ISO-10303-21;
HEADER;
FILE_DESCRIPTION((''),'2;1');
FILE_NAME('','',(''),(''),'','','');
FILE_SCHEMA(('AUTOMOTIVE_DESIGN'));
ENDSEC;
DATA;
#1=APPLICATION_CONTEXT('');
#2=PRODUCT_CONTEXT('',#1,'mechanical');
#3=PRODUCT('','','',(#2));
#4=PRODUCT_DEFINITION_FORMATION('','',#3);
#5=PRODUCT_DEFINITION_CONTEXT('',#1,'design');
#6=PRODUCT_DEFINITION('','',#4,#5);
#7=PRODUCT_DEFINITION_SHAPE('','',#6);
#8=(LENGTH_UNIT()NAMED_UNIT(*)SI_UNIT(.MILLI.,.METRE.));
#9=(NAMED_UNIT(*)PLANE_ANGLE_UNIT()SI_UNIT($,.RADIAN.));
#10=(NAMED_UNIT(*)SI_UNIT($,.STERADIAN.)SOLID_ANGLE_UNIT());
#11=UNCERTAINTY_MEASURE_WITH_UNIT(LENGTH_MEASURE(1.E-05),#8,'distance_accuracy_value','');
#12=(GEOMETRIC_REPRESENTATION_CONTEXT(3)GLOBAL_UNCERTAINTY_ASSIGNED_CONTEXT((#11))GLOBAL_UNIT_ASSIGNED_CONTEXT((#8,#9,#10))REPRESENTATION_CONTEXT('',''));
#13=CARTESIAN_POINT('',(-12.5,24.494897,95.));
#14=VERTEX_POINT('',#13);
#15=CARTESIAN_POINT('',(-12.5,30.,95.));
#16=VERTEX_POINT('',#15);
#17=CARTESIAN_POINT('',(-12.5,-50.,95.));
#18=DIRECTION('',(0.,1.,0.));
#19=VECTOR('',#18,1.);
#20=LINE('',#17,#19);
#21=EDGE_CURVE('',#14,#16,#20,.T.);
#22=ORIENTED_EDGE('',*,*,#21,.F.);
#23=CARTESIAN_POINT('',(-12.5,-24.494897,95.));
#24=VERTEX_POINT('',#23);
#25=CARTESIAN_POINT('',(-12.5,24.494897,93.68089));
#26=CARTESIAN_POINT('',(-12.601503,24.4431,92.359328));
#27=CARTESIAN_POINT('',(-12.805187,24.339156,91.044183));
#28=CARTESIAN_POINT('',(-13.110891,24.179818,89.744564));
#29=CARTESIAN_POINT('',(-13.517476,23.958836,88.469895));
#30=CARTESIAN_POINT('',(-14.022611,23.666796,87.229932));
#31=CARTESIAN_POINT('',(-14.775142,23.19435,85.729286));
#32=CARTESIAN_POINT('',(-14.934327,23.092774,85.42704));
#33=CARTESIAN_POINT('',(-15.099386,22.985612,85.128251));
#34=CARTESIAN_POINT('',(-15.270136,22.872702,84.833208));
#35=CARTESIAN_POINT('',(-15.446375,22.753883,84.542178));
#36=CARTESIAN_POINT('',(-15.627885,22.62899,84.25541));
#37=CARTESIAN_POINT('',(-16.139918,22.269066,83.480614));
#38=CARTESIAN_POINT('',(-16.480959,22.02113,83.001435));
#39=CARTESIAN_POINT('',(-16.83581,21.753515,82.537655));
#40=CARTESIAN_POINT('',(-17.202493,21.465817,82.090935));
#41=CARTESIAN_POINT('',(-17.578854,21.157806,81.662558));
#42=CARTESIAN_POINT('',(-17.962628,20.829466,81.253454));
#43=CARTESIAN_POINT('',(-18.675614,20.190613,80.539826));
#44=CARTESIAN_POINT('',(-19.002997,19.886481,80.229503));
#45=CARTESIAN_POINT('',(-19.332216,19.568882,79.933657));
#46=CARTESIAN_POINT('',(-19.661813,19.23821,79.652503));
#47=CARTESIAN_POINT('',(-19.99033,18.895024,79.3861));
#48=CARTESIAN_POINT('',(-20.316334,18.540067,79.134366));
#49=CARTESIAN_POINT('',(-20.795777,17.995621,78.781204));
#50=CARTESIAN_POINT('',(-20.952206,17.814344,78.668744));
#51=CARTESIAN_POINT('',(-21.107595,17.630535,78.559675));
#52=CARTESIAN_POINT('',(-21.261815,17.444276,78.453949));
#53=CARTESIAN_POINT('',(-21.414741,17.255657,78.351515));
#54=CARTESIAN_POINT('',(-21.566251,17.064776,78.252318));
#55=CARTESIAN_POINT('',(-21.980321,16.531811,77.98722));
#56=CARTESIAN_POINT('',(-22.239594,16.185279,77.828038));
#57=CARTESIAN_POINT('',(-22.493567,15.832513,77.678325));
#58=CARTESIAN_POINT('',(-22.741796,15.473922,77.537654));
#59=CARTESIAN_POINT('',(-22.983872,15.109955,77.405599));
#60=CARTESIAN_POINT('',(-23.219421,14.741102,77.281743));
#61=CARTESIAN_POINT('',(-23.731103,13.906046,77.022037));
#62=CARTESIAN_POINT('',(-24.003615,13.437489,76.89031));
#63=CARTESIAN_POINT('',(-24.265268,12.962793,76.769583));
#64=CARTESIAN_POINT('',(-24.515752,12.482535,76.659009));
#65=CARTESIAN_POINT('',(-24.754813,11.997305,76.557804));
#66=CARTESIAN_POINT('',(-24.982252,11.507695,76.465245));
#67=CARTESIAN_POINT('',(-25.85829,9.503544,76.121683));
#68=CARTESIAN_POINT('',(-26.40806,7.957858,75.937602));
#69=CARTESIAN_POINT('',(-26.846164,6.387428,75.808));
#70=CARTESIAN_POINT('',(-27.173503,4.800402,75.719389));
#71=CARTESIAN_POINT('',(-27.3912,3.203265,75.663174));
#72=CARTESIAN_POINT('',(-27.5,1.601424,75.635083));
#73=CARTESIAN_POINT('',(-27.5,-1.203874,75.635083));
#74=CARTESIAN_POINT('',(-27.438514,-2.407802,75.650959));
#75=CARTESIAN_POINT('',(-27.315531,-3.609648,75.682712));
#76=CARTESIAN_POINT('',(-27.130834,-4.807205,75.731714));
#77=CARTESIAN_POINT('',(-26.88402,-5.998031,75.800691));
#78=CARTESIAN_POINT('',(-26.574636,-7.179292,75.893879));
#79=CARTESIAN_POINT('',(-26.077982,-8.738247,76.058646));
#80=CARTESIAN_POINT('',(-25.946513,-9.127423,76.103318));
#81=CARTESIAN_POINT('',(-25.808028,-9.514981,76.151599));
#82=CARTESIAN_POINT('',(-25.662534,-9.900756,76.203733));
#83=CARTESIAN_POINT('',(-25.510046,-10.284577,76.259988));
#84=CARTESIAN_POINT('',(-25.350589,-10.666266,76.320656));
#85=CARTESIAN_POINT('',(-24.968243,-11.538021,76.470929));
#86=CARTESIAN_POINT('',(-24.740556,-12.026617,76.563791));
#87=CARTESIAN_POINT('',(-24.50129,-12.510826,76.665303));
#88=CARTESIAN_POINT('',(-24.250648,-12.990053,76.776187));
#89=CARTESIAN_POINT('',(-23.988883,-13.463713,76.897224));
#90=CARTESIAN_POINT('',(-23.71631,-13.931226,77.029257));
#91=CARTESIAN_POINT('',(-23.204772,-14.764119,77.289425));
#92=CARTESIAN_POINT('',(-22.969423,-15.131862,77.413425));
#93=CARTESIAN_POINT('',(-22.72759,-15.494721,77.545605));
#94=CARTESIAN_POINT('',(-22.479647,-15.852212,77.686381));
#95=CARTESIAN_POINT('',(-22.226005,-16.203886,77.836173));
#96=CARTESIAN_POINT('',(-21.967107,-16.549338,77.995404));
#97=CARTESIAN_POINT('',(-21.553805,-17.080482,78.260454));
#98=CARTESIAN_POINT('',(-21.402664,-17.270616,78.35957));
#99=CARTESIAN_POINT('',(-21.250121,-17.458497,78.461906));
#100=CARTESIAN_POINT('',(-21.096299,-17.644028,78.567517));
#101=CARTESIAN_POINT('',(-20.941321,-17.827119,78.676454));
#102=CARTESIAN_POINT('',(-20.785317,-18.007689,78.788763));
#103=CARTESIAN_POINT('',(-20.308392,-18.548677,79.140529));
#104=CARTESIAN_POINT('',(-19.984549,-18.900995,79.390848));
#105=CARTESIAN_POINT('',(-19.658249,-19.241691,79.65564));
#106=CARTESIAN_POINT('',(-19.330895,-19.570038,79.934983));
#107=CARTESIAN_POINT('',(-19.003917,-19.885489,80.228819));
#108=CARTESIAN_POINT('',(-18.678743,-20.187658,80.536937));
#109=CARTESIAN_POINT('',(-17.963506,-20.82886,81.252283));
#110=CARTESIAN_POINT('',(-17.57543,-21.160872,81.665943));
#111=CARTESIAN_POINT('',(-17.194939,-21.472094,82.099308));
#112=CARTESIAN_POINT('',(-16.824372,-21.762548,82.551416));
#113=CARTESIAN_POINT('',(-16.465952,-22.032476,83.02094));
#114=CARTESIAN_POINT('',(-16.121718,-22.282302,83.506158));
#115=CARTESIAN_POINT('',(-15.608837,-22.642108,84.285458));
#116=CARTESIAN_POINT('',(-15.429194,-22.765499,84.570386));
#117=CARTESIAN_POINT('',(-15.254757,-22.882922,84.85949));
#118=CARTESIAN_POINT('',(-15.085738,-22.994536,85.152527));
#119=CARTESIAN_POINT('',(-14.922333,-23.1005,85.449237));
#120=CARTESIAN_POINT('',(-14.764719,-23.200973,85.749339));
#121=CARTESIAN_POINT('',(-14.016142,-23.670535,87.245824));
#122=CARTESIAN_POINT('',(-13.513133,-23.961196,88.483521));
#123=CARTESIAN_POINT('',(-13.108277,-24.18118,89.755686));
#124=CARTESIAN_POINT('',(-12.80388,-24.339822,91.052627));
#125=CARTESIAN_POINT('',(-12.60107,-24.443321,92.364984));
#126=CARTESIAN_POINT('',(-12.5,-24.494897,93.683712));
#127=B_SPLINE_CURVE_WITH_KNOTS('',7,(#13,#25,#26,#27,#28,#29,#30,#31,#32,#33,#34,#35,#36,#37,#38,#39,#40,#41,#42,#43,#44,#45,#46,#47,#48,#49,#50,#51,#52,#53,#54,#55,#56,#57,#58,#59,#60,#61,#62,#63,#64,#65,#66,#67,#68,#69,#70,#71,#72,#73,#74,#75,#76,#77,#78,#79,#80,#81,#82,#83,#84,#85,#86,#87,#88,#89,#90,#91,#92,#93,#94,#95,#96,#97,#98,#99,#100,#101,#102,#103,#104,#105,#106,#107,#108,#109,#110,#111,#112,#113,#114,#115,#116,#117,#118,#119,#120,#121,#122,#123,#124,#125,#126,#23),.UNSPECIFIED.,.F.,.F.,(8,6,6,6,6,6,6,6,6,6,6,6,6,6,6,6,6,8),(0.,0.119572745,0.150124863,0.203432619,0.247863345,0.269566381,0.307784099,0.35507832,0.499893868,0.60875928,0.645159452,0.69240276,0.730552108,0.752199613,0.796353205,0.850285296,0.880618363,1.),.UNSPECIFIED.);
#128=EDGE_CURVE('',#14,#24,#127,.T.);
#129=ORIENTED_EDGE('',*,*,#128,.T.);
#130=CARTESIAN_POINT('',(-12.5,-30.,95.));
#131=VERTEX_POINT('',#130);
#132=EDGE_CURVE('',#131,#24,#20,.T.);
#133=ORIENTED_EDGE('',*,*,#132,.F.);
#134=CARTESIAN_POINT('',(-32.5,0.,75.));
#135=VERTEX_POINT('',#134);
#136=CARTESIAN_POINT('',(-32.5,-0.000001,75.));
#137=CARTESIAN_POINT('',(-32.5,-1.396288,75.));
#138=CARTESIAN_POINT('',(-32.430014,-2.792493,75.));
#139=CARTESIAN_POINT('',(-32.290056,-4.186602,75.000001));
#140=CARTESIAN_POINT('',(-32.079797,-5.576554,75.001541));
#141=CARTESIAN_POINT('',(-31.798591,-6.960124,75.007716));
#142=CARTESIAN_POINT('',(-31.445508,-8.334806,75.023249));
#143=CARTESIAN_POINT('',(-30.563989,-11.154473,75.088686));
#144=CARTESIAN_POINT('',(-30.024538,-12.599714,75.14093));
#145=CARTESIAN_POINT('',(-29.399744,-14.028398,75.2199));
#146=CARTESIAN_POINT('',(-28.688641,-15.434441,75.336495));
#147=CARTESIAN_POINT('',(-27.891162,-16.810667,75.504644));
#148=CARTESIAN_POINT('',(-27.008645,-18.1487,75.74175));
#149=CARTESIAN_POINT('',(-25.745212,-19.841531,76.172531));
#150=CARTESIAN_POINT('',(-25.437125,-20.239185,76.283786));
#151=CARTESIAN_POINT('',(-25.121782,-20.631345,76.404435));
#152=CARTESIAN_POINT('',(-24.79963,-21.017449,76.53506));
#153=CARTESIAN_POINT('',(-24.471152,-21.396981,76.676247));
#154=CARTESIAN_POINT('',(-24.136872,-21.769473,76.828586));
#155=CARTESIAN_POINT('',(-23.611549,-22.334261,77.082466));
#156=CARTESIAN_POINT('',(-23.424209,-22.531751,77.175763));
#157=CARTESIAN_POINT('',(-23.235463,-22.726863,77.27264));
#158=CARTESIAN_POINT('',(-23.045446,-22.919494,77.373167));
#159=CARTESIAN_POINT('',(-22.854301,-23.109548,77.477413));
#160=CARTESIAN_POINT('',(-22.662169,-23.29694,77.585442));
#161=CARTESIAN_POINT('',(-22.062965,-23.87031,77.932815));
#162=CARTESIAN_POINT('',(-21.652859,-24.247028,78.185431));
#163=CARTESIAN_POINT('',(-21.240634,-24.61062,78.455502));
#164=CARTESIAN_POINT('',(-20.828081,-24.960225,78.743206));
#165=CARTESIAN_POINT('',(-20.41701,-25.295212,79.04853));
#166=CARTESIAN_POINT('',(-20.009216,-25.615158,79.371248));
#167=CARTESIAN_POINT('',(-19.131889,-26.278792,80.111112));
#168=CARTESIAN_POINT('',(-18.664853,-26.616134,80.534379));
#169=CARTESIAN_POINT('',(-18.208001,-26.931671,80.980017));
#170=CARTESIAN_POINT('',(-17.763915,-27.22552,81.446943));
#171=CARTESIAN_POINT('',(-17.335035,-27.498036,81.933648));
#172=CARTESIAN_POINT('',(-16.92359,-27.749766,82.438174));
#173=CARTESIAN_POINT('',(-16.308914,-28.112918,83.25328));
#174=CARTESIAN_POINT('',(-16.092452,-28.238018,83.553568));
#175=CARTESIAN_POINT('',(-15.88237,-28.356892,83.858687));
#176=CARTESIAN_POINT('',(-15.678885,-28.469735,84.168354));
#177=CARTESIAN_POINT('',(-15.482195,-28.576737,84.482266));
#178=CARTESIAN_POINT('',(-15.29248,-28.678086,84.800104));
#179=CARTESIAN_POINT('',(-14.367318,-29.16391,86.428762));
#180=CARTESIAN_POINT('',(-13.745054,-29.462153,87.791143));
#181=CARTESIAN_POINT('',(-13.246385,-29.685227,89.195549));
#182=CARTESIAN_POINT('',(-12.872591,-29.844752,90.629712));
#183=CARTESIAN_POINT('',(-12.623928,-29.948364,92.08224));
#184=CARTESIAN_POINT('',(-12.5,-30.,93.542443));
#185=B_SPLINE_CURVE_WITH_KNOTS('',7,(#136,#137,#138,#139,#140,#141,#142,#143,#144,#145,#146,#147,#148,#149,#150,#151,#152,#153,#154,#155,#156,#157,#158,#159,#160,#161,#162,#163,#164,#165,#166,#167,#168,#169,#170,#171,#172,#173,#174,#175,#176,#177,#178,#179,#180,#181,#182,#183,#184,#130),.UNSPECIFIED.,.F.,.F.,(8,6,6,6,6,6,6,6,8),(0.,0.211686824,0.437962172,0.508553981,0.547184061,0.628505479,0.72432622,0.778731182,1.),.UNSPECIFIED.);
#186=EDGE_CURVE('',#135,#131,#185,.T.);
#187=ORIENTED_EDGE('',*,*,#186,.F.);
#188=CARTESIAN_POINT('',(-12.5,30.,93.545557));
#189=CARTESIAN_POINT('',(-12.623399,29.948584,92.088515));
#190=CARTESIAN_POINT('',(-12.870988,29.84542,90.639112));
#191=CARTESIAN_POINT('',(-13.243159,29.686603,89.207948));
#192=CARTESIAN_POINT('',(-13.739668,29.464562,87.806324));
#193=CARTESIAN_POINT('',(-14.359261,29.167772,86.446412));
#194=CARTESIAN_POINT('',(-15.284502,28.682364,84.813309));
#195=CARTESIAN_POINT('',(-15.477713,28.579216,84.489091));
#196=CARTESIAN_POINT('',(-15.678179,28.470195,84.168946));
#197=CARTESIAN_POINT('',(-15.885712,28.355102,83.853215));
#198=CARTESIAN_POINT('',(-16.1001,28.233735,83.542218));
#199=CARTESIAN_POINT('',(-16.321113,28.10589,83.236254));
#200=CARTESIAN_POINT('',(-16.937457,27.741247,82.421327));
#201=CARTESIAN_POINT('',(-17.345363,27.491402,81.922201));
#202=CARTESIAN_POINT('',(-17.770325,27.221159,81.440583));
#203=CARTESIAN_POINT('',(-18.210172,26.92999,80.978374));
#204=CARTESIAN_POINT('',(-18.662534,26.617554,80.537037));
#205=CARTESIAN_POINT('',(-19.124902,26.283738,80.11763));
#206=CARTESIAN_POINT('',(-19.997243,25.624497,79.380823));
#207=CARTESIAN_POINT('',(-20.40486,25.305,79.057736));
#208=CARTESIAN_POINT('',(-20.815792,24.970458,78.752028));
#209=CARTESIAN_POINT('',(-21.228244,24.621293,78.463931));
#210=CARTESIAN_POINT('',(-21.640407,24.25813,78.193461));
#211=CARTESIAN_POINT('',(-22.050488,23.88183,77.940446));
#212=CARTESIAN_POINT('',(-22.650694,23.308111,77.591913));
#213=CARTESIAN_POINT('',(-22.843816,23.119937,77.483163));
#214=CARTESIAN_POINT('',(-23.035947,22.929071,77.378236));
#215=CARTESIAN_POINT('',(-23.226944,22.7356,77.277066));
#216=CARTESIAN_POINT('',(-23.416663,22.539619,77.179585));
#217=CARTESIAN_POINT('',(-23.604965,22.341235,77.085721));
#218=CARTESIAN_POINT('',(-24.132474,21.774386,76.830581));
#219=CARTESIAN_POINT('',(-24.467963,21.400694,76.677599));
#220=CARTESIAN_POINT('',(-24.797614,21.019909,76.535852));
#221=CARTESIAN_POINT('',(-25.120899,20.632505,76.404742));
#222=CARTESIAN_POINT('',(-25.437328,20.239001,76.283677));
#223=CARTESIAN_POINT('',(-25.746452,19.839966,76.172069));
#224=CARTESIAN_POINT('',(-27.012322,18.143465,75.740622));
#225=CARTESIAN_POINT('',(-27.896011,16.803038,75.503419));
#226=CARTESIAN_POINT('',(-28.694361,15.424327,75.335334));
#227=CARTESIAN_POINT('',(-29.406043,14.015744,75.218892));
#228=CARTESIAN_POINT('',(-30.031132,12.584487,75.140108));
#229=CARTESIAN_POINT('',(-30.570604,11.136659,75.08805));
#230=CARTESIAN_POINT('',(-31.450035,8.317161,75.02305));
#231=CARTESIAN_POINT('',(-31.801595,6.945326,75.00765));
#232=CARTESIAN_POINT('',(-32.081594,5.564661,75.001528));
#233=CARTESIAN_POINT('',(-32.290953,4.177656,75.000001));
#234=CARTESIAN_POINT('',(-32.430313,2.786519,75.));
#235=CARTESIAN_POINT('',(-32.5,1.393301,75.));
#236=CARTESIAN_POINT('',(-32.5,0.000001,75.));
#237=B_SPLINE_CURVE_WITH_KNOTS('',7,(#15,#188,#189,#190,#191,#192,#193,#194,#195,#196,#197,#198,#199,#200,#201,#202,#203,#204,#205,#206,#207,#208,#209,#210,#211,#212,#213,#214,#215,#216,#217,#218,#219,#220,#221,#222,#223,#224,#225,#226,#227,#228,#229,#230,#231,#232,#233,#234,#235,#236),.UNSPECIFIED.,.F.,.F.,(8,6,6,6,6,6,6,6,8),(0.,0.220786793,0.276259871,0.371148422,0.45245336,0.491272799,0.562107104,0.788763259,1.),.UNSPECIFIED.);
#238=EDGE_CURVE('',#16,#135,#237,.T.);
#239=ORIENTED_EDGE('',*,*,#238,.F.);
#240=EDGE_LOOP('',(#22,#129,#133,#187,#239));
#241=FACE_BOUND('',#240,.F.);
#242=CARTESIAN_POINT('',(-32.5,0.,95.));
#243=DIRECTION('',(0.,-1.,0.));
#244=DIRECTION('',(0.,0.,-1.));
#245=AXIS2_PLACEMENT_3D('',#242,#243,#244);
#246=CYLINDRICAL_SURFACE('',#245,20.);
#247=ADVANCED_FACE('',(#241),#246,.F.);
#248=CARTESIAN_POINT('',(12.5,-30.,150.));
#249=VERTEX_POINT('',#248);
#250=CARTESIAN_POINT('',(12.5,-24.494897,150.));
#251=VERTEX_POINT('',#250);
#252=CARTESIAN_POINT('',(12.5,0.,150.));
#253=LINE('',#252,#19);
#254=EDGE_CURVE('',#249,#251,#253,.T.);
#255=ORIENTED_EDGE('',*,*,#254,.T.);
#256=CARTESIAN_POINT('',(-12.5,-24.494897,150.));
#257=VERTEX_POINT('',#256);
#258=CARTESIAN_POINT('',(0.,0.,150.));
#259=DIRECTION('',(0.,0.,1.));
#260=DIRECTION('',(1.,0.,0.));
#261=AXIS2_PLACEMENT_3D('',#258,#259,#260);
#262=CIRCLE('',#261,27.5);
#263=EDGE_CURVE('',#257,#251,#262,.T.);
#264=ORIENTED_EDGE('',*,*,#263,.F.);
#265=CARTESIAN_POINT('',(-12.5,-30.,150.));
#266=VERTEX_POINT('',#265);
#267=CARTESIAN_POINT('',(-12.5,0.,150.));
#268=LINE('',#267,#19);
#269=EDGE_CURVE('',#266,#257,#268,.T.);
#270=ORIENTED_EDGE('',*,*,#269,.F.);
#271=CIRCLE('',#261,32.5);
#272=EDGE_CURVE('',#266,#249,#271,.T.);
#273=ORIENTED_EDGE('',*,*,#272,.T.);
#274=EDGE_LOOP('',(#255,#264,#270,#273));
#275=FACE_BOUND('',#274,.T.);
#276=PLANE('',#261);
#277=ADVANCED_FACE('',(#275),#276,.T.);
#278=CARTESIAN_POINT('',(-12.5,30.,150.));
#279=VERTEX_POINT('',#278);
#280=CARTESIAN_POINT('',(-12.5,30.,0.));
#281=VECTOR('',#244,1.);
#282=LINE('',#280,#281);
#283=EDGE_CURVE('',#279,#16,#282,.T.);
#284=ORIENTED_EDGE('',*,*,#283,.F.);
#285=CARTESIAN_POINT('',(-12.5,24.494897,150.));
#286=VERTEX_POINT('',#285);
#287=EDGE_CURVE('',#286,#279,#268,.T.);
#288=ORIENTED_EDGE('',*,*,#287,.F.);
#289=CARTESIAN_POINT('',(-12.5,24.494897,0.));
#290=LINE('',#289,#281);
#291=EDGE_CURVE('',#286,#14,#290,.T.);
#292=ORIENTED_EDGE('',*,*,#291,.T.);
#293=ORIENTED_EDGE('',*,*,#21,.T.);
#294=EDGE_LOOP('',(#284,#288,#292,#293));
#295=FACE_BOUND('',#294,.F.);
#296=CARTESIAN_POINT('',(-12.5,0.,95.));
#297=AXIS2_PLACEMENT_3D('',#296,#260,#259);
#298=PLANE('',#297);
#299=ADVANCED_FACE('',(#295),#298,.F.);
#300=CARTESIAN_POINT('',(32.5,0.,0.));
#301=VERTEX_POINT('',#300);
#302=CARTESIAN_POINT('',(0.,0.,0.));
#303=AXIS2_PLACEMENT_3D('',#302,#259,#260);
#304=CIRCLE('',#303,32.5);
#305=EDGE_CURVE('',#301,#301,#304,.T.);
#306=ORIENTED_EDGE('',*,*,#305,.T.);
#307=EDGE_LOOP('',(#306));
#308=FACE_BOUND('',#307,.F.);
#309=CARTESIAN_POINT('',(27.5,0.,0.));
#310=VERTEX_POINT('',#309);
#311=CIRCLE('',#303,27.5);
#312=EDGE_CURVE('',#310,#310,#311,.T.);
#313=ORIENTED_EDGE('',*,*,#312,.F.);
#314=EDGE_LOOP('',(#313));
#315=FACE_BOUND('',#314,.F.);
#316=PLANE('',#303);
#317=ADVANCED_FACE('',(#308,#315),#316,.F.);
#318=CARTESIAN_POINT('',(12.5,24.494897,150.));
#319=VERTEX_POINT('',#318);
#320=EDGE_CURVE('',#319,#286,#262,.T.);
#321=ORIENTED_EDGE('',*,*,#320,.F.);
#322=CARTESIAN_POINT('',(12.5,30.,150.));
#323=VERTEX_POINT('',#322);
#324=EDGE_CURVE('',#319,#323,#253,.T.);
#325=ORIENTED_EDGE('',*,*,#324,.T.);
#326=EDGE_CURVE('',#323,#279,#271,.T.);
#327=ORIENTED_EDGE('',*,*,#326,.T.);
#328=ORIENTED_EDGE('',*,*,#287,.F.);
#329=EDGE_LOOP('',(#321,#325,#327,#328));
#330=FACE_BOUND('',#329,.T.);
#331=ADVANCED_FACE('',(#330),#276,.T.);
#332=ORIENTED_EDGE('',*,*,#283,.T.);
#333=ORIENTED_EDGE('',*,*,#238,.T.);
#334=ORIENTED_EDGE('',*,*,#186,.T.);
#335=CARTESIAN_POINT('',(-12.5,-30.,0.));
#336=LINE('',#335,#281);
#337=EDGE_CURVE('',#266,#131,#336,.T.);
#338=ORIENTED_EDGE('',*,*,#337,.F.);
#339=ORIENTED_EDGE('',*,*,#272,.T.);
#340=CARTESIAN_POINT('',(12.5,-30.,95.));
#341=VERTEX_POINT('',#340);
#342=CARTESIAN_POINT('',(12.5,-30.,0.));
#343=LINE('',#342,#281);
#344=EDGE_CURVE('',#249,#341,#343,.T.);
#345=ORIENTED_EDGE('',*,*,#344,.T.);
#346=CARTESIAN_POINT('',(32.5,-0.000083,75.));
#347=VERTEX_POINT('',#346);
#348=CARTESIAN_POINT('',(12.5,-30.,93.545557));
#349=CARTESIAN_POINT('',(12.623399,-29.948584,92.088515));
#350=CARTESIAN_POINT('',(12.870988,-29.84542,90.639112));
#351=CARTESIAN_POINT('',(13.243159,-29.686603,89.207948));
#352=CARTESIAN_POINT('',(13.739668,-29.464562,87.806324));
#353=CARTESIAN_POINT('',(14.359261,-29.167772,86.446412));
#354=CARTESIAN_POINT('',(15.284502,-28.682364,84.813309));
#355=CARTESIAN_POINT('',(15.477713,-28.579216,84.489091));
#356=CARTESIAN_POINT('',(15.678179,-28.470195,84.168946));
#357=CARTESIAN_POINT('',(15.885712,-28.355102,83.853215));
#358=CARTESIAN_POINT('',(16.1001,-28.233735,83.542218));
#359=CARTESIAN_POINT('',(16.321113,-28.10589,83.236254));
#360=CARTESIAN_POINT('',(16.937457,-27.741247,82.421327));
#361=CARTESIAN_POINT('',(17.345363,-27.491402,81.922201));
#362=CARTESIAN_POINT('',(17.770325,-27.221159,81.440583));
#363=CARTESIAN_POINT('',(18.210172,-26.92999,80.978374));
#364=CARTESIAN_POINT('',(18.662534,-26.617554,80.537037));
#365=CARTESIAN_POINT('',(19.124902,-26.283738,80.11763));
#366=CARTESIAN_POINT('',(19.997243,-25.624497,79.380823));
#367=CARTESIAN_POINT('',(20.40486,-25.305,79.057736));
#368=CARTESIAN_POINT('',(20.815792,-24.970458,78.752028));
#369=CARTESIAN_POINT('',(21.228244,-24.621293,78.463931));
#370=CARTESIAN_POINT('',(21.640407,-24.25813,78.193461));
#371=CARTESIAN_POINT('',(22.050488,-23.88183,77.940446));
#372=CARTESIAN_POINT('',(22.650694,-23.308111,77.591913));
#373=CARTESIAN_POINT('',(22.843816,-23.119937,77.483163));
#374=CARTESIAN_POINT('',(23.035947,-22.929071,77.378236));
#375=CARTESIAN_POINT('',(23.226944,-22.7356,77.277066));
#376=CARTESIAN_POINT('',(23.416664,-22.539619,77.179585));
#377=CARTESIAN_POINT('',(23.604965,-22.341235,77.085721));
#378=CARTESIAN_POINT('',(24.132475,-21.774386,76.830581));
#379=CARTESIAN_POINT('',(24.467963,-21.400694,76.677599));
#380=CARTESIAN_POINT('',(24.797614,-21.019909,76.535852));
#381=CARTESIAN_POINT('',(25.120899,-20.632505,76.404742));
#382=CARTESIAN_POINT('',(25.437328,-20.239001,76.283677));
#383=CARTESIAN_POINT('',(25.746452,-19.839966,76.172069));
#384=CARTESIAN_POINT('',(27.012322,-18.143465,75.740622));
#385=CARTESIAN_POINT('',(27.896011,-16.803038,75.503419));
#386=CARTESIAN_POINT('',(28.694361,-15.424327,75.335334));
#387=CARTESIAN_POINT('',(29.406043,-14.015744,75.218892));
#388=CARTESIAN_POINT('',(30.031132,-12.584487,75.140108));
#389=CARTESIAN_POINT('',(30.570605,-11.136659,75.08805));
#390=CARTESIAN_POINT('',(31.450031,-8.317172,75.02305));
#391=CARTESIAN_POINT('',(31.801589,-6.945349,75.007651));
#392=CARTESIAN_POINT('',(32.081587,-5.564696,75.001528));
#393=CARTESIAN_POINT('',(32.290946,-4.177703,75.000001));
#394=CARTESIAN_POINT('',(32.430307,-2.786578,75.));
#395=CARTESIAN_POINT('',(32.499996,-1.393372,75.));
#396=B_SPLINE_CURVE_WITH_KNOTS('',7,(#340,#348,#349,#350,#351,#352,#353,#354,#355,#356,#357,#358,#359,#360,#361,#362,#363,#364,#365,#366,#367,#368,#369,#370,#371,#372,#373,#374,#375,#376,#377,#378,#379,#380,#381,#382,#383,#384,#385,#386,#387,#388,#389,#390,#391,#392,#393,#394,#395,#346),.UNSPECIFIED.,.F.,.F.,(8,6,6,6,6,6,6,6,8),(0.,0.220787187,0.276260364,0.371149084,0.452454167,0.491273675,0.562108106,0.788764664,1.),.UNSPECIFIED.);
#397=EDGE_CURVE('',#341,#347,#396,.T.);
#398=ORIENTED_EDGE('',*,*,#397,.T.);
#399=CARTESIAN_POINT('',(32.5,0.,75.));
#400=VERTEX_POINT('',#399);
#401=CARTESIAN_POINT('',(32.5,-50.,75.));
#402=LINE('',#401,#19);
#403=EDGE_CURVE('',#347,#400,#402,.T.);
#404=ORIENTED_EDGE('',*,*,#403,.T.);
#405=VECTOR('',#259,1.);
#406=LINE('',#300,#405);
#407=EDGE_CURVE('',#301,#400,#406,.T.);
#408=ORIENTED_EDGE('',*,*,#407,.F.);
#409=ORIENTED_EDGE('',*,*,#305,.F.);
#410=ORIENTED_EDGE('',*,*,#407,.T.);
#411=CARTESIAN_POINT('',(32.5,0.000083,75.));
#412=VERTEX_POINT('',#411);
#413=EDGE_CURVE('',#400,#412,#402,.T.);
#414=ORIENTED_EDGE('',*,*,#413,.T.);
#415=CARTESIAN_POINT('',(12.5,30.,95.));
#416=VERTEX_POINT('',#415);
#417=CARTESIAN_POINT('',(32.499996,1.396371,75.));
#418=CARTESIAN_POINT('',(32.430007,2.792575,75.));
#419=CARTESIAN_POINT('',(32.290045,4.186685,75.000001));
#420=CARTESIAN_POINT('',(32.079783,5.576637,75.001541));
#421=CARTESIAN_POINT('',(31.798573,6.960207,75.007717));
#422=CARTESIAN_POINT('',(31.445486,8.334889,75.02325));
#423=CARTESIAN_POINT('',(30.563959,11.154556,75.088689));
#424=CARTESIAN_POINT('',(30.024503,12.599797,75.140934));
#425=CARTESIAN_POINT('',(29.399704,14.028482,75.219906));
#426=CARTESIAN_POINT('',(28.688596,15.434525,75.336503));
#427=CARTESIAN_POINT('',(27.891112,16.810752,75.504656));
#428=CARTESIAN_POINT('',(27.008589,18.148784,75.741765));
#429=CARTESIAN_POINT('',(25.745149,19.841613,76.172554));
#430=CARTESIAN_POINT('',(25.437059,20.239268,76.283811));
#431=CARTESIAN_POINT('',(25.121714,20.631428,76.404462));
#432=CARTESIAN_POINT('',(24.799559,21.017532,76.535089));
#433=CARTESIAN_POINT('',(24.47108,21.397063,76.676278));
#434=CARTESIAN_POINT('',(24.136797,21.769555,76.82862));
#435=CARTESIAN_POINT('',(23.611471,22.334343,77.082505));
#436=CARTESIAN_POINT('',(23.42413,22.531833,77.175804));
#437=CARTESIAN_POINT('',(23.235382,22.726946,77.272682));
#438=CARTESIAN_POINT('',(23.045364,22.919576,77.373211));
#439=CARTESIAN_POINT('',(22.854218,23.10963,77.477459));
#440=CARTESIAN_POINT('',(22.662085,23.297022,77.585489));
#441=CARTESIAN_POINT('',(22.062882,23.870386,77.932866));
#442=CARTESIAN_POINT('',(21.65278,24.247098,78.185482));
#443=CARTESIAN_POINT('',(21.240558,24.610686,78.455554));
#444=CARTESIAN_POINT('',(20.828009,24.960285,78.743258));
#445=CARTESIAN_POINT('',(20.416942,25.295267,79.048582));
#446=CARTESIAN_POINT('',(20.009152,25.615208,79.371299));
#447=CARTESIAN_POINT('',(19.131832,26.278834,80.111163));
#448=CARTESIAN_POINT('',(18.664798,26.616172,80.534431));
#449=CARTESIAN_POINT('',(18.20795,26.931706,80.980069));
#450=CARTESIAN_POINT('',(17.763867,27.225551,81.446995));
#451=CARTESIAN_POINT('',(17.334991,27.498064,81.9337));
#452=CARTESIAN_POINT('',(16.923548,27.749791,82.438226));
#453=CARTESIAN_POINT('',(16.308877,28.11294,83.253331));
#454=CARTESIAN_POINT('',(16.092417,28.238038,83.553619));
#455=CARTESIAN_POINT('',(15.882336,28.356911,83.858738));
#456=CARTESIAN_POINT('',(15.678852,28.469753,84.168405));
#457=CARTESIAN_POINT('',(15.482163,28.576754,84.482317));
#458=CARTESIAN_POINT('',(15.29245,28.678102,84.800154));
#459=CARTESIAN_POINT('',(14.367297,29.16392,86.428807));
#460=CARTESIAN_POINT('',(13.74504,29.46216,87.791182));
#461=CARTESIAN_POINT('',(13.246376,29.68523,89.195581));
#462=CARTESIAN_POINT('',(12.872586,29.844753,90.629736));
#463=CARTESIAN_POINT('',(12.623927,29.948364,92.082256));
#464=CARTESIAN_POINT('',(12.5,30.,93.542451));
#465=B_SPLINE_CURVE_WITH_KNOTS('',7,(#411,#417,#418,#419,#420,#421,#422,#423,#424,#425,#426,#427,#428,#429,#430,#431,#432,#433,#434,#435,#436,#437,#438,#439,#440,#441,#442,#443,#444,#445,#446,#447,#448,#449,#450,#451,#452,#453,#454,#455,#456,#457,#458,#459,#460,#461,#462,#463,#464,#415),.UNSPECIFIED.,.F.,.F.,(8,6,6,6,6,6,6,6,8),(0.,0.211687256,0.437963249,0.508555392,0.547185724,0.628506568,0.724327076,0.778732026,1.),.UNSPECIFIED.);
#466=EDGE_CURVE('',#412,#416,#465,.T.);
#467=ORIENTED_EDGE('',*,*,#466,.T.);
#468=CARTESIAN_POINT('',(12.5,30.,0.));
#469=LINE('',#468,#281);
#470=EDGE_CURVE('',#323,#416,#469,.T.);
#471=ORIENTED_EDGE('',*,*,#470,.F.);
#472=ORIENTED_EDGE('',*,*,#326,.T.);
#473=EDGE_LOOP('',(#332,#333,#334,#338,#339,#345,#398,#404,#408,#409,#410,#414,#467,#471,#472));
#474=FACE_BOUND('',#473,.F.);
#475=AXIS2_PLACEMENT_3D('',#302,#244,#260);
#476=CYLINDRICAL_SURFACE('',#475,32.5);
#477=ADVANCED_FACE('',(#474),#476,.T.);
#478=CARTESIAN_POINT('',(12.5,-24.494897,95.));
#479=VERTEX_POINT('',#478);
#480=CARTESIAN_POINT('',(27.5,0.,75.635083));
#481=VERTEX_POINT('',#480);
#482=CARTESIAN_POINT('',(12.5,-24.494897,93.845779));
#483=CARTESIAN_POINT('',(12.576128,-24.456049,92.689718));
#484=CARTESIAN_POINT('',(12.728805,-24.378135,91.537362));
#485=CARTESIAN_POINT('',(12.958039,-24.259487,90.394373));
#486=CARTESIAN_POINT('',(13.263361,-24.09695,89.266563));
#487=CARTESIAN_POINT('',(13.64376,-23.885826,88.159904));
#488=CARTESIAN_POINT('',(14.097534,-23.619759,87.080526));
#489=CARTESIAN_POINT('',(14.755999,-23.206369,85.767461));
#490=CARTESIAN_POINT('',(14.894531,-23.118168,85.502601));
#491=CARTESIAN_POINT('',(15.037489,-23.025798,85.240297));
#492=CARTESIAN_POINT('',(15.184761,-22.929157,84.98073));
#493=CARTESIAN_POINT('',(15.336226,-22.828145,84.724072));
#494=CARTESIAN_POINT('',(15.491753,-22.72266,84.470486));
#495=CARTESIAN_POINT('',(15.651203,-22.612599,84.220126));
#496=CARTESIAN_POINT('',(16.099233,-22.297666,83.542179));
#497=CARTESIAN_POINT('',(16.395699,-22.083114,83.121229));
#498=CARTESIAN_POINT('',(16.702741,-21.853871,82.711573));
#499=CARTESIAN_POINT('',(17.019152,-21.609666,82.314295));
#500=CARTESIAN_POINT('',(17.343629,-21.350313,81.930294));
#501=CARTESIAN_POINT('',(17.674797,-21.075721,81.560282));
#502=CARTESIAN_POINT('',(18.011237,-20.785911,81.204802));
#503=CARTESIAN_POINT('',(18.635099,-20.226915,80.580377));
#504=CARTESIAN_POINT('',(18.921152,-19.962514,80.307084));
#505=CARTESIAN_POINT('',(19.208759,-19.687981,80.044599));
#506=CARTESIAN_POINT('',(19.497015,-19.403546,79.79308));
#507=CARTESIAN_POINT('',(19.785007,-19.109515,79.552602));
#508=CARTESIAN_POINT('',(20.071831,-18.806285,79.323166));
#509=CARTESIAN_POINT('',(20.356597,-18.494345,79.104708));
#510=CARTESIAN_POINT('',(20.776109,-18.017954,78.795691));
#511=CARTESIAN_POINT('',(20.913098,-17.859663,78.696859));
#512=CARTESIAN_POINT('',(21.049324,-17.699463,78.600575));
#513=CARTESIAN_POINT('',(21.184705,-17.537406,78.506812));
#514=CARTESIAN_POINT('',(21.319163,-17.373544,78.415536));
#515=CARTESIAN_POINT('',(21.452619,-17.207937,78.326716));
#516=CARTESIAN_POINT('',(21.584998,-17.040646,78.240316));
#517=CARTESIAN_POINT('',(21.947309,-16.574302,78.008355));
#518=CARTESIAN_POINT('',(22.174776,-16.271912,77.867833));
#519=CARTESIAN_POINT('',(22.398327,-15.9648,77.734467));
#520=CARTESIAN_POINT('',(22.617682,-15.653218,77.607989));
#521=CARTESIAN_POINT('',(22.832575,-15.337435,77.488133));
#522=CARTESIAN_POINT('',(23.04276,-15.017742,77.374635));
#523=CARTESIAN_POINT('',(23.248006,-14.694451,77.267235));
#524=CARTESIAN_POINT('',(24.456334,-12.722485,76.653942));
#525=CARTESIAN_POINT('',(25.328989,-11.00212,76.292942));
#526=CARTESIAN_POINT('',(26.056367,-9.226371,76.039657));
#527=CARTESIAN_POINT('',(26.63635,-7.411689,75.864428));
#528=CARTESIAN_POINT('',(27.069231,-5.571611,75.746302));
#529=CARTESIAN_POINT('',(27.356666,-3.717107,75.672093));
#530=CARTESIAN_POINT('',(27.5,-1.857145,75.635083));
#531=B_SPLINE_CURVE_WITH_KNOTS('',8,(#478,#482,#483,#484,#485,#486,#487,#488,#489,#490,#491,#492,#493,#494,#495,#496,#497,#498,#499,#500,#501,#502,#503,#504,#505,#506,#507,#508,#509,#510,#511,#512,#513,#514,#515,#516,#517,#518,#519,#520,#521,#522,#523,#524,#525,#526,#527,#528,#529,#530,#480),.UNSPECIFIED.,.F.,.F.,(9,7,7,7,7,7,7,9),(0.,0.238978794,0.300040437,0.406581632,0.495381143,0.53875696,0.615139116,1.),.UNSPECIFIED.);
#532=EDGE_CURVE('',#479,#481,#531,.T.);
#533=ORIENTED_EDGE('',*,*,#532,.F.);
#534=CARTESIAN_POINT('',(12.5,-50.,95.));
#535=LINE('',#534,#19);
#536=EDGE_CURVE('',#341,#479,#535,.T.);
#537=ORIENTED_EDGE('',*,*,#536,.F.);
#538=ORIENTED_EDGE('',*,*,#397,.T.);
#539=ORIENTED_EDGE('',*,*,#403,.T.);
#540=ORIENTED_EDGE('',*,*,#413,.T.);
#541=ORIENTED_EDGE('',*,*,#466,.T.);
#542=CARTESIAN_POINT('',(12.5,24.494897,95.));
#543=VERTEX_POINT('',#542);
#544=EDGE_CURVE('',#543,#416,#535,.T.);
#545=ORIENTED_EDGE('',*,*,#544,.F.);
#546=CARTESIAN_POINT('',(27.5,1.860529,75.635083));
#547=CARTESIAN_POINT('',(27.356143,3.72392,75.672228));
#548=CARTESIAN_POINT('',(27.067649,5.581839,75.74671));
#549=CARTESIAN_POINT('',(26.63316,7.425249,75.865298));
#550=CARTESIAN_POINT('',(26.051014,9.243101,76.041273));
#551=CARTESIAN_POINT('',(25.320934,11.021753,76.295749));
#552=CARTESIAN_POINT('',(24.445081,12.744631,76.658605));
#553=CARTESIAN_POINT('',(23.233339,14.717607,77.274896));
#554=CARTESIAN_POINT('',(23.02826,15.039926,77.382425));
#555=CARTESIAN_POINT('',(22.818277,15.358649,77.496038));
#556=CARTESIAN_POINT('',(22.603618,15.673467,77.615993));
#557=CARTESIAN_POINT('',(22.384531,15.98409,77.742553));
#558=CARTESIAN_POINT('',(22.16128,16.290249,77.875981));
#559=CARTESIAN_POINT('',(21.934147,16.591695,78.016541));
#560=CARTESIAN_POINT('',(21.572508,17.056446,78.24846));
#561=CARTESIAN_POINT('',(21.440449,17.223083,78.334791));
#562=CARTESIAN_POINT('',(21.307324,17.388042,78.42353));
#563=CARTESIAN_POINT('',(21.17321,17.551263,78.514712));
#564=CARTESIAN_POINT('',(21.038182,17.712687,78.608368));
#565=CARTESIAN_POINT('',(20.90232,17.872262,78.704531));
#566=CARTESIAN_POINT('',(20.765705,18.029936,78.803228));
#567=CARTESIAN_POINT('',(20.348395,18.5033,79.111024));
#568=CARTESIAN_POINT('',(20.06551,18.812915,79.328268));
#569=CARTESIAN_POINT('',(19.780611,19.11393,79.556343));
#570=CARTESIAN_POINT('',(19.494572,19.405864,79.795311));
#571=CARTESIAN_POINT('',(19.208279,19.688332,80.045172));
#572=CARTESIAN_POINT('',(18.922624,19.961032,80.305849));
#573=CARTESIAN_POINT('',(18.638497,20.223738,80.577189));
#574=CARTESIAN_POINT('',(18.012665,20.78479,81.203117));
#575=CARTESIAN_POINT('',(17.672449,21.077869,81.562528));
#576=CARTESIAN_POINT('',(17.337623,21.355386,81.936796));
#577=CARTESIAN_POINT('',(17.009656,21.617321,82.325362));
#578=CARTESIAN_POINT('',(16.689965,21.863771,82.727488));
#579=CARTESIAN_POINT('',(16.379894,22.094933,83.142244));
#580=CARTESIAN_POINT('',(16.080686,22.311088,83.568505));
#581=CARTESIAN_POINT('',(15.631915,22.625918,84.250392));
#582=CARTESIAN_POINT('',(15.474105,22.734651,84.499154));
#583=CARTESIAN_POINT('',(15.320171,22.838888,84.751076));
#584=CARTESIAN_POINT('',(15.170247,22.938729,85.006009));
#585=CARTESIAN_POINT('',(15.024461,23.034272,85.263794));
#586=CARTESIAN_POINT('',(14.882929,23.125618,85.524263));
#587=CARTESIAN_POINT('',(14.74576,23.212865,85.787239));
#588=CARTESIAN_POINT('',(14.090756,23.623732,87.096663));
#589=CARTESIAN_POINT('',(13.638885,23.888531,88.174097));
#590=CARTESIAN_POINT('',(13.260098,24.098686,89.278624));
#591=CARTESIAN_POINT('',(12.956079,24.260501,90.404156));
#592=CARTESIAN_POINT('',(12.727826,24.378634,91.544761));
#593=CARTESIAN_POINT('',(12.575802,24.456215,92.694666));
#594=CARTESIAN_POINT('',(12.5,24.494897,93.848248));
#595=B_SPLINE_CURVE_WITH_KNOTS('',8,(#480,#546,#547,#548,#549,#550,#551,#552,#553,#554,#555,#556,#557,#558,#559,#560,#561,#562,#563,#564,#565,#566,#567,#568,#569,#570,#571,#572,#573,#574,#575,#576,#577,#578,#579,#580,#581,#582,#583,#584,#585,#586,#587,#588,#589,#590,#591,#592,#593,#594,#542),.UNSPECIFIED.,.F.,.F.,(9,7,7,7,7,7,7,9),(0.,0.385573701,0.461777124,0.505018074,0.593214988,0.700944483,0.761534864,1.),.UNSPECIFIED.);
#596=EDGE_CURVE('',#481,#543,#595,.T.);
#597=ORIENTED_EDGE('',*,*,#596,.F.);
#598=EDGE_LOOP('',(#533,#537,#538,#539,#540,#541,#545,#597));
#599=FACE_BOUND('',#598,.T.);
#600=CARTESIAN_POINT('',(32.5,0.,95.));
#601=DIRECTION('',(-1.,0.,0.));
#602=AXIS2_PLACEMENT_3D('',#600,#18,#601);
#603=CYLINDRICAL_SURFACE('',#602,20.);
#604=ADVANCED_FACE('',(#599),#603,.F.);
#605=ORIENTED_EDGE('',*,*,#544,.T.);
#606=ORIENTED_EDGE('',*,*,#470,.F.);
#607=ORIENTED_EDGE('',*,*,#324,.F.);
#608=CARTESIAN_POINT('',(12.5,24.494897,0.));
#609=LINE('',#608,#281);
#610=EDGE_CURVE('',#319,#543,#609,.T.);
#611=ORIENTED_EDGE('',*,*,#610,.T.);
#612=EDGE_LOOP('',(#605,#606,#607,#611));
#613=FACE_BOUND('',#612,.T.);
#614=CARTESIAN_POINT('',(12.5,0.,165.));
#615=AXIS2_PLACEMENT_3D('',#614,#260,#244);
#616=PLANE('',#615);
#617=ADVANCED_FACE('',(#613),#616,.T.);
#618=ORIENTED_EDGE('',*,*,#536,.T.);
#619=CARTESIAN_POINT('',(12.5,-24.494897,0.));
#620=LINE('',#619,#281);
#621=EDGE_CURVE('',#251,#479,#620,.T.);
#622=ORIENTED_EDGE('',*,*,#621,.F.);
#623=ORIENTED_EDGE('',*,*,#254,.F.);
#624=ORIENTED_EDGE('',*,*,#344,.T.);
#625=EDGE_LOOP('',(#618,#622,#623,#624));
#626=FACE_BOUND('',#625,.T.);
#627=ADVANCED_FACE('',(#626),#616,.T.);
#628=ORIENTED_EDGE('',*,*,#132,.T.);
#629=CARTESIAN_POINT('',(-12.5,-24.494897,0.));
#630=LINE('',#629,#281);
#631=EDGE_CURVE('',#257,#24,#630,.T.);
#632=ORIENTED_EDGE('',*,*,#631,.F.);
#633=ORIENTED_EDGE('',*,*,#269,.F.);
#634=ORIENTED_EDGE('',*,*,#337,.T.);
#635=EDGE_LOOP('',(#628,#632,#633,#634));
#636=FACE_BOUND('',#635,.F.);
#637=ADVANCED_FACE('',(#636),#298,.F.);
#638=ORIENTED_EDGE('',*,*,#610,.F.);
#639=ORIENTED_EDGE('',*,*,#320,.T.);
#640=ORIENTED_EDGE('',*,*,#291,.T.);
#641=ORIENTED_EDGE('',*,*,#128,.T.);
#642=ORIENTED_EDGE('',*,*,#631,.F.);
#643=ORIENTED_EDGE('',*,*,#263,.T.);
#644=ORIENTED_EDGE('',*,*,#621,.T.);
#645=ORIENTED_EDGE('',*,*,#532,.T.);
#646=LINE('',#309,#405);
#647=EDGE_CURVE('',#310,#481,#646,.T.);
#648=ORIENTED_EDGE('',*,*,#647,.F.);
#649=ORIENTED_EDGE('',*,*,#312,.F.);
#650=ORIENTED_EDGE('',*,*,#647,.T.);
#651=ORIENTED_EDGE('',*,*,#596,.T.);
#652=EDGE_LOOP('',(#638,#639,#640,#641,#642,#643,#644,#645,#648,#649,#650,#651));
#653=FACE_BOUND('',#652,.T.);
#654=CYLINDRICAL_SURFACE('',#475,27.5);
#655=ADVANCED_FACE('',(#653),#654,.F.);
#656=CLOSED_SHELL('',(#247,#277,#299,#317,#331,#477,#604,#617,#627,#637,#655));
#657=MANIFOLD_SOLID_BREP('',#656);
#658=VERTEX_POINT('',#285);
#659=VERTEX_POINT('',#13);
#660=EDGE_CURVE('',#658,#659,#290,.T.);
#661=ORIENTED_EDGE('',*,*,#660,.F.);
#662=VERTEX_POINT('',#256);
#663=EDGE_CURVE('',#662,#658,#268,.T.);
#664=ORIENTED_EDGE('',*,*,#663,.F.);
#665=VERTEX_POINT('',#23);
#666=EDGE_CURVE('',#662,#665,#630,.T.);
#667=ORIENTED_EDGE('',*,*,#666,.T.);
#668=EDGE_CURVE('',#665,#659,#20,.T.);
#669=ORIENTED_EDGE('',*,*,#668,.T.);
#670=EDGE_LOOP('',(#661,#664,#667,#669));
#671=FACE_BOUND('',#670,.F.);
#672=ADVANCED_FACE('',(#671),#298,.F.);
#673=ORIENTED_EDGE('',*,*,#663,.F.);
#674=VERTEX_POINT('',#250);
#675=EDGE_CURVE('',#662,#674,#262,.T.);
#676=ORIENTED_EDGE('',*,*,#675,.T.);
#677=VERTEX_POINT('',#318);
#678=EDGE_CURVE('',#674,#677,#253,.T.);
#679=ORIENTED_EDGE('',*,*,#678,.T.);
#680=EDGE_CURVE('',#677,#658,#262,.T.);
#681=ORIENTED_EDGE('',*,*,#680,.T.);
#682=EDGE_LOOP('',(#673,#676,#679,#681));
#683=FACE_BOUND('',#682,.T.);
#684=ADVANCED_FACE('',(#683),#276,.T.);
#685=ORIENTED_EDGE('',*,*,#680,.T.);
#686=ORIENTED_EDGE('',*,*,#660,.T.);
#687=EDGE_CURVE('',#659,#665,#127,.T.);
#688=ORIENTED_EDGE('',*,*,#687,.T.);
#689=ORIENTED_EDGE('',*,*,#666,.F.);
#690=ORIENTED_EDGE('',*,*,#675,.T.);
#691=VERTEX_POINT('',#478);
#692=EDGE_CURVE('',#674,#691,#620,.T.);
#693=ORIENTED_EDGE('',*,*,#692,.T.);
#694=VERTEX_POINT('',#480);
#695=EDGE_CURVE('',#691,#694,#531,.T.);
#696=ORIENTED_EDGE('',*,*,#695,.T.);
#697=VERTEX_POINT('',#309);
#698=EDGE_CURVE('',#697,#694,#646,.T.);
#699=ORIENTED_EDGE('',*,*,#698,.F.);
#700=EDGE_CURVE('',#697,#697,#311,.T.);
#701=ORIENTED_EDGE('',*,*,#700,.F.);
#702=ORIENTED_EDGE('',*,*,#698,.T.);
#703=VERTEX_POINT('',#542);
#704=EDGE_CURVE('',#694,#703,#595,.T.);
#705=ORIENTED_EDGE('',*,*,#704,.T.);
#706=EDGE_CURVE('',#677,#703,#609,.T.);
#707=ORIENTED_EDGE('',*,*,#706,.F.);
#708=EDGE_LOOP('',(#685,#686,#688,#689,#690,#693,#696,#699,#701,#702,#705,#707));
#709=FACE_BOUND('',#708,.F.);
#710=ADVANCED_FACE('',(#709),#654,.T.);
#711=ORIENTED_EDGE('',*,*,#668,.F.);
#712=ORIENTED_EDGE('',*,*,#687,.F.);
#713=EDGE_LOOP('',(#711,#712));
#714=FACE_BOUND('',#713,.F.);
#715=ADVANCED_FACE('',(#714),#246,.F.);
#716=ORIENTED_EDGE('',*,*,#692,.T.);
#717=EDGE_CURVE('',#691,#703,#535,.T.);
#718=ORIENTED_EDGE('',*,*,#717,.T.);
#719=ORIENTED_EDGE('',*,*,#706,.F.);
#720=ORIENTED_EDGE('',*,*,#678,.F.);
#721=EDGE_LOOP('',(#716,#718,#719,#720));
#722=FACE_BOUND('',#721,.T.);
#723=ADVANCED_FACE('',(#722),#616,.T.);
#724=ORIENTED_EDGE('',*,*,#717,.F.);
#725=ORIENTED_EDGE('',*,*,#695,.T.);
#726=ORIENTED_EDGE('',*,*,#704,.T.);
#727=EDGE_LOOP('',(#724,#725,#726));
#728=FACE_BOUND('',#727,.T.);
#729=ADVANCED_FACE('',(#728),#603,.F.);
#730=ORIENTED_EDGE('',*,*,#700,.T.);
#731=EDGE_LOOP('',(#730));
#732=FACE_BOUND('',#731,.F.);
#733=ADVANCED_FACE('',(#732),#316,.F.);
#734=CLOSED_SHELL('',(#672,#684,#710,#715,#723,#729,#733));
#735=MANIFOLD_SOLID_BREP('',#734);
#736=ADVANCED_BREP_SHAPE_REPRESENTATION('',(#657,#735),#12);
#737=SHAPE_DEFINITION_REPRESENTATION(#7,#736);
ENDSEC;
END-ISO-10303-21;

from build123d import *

# Parameters (mm, degrees)
F0_R     = 27.5
F1_DEPTH = 150
F0_R_2   = 32.5
F2_DEPTH = 150
F4_DEPTH = 50


with BuildPart() as f1:
    # F0 (on Top) → F1 (new body)
    with BuildSketch(Plane.XY):
        Circle(F0_R)
    extrude(amount=F1_DEPTH)


with BuildPart() as f2:
    # F0 (on Top) → F2 (new body)
    with BuildSketch(Plane.XY):
        Circle(F0_R_2)
        Circle(F0_R, mode=Mode.SUBTRACT)
    extrude(amount=F2_DEPTH)


with BuildPart() as f4_tool:
    # F3 (on Front) → F4 (new body, symmetric)
    with BuildSketch(Plane.XZ):
        with BuildLine():
            Line((55.4596690089, 75), (55.4596690089, 165))
            Line((55.4596690089, 165), (12.5, 165))
            Line((12.5, 165), (12.5, 95))
            ThreePointArc((12.5, 95), (18.3578643763, 80.8578643763), (32.5, 75))
            Line((32.5, 75), (55.4596690089, 75))
        make_face()
        with BuildLine():
            Line((-12.5, 165), (-55.4596690089, 165))
            Line((-55.4596690089, 165), (-55.4596690089, 75))
            Line((-55.4596690089, 75), (-32.5, 75))
            ThreePointArc((-32.5, 75), (-18.3578643763, 80.8578643763), (-12.5, 95))
            Line((-12.5, 95), (-12.5, 165))
        make_face()
    extrude(amount=F4_DEPTH, both=True)


with BuildPart() as f1_1:
    add(f1.part)

    # F4: cut by f4_tool
    add(f4_tool.part, mode=Mode.SUBTRACT)


with BuildPart() as f2_1:
    add(f2.part)

    # F4: cut by f4_tool
    add(f4_tool.part, mode=Mode.SUBTRACT)


solid = Compound([f1_1.part, f2_1.part])
